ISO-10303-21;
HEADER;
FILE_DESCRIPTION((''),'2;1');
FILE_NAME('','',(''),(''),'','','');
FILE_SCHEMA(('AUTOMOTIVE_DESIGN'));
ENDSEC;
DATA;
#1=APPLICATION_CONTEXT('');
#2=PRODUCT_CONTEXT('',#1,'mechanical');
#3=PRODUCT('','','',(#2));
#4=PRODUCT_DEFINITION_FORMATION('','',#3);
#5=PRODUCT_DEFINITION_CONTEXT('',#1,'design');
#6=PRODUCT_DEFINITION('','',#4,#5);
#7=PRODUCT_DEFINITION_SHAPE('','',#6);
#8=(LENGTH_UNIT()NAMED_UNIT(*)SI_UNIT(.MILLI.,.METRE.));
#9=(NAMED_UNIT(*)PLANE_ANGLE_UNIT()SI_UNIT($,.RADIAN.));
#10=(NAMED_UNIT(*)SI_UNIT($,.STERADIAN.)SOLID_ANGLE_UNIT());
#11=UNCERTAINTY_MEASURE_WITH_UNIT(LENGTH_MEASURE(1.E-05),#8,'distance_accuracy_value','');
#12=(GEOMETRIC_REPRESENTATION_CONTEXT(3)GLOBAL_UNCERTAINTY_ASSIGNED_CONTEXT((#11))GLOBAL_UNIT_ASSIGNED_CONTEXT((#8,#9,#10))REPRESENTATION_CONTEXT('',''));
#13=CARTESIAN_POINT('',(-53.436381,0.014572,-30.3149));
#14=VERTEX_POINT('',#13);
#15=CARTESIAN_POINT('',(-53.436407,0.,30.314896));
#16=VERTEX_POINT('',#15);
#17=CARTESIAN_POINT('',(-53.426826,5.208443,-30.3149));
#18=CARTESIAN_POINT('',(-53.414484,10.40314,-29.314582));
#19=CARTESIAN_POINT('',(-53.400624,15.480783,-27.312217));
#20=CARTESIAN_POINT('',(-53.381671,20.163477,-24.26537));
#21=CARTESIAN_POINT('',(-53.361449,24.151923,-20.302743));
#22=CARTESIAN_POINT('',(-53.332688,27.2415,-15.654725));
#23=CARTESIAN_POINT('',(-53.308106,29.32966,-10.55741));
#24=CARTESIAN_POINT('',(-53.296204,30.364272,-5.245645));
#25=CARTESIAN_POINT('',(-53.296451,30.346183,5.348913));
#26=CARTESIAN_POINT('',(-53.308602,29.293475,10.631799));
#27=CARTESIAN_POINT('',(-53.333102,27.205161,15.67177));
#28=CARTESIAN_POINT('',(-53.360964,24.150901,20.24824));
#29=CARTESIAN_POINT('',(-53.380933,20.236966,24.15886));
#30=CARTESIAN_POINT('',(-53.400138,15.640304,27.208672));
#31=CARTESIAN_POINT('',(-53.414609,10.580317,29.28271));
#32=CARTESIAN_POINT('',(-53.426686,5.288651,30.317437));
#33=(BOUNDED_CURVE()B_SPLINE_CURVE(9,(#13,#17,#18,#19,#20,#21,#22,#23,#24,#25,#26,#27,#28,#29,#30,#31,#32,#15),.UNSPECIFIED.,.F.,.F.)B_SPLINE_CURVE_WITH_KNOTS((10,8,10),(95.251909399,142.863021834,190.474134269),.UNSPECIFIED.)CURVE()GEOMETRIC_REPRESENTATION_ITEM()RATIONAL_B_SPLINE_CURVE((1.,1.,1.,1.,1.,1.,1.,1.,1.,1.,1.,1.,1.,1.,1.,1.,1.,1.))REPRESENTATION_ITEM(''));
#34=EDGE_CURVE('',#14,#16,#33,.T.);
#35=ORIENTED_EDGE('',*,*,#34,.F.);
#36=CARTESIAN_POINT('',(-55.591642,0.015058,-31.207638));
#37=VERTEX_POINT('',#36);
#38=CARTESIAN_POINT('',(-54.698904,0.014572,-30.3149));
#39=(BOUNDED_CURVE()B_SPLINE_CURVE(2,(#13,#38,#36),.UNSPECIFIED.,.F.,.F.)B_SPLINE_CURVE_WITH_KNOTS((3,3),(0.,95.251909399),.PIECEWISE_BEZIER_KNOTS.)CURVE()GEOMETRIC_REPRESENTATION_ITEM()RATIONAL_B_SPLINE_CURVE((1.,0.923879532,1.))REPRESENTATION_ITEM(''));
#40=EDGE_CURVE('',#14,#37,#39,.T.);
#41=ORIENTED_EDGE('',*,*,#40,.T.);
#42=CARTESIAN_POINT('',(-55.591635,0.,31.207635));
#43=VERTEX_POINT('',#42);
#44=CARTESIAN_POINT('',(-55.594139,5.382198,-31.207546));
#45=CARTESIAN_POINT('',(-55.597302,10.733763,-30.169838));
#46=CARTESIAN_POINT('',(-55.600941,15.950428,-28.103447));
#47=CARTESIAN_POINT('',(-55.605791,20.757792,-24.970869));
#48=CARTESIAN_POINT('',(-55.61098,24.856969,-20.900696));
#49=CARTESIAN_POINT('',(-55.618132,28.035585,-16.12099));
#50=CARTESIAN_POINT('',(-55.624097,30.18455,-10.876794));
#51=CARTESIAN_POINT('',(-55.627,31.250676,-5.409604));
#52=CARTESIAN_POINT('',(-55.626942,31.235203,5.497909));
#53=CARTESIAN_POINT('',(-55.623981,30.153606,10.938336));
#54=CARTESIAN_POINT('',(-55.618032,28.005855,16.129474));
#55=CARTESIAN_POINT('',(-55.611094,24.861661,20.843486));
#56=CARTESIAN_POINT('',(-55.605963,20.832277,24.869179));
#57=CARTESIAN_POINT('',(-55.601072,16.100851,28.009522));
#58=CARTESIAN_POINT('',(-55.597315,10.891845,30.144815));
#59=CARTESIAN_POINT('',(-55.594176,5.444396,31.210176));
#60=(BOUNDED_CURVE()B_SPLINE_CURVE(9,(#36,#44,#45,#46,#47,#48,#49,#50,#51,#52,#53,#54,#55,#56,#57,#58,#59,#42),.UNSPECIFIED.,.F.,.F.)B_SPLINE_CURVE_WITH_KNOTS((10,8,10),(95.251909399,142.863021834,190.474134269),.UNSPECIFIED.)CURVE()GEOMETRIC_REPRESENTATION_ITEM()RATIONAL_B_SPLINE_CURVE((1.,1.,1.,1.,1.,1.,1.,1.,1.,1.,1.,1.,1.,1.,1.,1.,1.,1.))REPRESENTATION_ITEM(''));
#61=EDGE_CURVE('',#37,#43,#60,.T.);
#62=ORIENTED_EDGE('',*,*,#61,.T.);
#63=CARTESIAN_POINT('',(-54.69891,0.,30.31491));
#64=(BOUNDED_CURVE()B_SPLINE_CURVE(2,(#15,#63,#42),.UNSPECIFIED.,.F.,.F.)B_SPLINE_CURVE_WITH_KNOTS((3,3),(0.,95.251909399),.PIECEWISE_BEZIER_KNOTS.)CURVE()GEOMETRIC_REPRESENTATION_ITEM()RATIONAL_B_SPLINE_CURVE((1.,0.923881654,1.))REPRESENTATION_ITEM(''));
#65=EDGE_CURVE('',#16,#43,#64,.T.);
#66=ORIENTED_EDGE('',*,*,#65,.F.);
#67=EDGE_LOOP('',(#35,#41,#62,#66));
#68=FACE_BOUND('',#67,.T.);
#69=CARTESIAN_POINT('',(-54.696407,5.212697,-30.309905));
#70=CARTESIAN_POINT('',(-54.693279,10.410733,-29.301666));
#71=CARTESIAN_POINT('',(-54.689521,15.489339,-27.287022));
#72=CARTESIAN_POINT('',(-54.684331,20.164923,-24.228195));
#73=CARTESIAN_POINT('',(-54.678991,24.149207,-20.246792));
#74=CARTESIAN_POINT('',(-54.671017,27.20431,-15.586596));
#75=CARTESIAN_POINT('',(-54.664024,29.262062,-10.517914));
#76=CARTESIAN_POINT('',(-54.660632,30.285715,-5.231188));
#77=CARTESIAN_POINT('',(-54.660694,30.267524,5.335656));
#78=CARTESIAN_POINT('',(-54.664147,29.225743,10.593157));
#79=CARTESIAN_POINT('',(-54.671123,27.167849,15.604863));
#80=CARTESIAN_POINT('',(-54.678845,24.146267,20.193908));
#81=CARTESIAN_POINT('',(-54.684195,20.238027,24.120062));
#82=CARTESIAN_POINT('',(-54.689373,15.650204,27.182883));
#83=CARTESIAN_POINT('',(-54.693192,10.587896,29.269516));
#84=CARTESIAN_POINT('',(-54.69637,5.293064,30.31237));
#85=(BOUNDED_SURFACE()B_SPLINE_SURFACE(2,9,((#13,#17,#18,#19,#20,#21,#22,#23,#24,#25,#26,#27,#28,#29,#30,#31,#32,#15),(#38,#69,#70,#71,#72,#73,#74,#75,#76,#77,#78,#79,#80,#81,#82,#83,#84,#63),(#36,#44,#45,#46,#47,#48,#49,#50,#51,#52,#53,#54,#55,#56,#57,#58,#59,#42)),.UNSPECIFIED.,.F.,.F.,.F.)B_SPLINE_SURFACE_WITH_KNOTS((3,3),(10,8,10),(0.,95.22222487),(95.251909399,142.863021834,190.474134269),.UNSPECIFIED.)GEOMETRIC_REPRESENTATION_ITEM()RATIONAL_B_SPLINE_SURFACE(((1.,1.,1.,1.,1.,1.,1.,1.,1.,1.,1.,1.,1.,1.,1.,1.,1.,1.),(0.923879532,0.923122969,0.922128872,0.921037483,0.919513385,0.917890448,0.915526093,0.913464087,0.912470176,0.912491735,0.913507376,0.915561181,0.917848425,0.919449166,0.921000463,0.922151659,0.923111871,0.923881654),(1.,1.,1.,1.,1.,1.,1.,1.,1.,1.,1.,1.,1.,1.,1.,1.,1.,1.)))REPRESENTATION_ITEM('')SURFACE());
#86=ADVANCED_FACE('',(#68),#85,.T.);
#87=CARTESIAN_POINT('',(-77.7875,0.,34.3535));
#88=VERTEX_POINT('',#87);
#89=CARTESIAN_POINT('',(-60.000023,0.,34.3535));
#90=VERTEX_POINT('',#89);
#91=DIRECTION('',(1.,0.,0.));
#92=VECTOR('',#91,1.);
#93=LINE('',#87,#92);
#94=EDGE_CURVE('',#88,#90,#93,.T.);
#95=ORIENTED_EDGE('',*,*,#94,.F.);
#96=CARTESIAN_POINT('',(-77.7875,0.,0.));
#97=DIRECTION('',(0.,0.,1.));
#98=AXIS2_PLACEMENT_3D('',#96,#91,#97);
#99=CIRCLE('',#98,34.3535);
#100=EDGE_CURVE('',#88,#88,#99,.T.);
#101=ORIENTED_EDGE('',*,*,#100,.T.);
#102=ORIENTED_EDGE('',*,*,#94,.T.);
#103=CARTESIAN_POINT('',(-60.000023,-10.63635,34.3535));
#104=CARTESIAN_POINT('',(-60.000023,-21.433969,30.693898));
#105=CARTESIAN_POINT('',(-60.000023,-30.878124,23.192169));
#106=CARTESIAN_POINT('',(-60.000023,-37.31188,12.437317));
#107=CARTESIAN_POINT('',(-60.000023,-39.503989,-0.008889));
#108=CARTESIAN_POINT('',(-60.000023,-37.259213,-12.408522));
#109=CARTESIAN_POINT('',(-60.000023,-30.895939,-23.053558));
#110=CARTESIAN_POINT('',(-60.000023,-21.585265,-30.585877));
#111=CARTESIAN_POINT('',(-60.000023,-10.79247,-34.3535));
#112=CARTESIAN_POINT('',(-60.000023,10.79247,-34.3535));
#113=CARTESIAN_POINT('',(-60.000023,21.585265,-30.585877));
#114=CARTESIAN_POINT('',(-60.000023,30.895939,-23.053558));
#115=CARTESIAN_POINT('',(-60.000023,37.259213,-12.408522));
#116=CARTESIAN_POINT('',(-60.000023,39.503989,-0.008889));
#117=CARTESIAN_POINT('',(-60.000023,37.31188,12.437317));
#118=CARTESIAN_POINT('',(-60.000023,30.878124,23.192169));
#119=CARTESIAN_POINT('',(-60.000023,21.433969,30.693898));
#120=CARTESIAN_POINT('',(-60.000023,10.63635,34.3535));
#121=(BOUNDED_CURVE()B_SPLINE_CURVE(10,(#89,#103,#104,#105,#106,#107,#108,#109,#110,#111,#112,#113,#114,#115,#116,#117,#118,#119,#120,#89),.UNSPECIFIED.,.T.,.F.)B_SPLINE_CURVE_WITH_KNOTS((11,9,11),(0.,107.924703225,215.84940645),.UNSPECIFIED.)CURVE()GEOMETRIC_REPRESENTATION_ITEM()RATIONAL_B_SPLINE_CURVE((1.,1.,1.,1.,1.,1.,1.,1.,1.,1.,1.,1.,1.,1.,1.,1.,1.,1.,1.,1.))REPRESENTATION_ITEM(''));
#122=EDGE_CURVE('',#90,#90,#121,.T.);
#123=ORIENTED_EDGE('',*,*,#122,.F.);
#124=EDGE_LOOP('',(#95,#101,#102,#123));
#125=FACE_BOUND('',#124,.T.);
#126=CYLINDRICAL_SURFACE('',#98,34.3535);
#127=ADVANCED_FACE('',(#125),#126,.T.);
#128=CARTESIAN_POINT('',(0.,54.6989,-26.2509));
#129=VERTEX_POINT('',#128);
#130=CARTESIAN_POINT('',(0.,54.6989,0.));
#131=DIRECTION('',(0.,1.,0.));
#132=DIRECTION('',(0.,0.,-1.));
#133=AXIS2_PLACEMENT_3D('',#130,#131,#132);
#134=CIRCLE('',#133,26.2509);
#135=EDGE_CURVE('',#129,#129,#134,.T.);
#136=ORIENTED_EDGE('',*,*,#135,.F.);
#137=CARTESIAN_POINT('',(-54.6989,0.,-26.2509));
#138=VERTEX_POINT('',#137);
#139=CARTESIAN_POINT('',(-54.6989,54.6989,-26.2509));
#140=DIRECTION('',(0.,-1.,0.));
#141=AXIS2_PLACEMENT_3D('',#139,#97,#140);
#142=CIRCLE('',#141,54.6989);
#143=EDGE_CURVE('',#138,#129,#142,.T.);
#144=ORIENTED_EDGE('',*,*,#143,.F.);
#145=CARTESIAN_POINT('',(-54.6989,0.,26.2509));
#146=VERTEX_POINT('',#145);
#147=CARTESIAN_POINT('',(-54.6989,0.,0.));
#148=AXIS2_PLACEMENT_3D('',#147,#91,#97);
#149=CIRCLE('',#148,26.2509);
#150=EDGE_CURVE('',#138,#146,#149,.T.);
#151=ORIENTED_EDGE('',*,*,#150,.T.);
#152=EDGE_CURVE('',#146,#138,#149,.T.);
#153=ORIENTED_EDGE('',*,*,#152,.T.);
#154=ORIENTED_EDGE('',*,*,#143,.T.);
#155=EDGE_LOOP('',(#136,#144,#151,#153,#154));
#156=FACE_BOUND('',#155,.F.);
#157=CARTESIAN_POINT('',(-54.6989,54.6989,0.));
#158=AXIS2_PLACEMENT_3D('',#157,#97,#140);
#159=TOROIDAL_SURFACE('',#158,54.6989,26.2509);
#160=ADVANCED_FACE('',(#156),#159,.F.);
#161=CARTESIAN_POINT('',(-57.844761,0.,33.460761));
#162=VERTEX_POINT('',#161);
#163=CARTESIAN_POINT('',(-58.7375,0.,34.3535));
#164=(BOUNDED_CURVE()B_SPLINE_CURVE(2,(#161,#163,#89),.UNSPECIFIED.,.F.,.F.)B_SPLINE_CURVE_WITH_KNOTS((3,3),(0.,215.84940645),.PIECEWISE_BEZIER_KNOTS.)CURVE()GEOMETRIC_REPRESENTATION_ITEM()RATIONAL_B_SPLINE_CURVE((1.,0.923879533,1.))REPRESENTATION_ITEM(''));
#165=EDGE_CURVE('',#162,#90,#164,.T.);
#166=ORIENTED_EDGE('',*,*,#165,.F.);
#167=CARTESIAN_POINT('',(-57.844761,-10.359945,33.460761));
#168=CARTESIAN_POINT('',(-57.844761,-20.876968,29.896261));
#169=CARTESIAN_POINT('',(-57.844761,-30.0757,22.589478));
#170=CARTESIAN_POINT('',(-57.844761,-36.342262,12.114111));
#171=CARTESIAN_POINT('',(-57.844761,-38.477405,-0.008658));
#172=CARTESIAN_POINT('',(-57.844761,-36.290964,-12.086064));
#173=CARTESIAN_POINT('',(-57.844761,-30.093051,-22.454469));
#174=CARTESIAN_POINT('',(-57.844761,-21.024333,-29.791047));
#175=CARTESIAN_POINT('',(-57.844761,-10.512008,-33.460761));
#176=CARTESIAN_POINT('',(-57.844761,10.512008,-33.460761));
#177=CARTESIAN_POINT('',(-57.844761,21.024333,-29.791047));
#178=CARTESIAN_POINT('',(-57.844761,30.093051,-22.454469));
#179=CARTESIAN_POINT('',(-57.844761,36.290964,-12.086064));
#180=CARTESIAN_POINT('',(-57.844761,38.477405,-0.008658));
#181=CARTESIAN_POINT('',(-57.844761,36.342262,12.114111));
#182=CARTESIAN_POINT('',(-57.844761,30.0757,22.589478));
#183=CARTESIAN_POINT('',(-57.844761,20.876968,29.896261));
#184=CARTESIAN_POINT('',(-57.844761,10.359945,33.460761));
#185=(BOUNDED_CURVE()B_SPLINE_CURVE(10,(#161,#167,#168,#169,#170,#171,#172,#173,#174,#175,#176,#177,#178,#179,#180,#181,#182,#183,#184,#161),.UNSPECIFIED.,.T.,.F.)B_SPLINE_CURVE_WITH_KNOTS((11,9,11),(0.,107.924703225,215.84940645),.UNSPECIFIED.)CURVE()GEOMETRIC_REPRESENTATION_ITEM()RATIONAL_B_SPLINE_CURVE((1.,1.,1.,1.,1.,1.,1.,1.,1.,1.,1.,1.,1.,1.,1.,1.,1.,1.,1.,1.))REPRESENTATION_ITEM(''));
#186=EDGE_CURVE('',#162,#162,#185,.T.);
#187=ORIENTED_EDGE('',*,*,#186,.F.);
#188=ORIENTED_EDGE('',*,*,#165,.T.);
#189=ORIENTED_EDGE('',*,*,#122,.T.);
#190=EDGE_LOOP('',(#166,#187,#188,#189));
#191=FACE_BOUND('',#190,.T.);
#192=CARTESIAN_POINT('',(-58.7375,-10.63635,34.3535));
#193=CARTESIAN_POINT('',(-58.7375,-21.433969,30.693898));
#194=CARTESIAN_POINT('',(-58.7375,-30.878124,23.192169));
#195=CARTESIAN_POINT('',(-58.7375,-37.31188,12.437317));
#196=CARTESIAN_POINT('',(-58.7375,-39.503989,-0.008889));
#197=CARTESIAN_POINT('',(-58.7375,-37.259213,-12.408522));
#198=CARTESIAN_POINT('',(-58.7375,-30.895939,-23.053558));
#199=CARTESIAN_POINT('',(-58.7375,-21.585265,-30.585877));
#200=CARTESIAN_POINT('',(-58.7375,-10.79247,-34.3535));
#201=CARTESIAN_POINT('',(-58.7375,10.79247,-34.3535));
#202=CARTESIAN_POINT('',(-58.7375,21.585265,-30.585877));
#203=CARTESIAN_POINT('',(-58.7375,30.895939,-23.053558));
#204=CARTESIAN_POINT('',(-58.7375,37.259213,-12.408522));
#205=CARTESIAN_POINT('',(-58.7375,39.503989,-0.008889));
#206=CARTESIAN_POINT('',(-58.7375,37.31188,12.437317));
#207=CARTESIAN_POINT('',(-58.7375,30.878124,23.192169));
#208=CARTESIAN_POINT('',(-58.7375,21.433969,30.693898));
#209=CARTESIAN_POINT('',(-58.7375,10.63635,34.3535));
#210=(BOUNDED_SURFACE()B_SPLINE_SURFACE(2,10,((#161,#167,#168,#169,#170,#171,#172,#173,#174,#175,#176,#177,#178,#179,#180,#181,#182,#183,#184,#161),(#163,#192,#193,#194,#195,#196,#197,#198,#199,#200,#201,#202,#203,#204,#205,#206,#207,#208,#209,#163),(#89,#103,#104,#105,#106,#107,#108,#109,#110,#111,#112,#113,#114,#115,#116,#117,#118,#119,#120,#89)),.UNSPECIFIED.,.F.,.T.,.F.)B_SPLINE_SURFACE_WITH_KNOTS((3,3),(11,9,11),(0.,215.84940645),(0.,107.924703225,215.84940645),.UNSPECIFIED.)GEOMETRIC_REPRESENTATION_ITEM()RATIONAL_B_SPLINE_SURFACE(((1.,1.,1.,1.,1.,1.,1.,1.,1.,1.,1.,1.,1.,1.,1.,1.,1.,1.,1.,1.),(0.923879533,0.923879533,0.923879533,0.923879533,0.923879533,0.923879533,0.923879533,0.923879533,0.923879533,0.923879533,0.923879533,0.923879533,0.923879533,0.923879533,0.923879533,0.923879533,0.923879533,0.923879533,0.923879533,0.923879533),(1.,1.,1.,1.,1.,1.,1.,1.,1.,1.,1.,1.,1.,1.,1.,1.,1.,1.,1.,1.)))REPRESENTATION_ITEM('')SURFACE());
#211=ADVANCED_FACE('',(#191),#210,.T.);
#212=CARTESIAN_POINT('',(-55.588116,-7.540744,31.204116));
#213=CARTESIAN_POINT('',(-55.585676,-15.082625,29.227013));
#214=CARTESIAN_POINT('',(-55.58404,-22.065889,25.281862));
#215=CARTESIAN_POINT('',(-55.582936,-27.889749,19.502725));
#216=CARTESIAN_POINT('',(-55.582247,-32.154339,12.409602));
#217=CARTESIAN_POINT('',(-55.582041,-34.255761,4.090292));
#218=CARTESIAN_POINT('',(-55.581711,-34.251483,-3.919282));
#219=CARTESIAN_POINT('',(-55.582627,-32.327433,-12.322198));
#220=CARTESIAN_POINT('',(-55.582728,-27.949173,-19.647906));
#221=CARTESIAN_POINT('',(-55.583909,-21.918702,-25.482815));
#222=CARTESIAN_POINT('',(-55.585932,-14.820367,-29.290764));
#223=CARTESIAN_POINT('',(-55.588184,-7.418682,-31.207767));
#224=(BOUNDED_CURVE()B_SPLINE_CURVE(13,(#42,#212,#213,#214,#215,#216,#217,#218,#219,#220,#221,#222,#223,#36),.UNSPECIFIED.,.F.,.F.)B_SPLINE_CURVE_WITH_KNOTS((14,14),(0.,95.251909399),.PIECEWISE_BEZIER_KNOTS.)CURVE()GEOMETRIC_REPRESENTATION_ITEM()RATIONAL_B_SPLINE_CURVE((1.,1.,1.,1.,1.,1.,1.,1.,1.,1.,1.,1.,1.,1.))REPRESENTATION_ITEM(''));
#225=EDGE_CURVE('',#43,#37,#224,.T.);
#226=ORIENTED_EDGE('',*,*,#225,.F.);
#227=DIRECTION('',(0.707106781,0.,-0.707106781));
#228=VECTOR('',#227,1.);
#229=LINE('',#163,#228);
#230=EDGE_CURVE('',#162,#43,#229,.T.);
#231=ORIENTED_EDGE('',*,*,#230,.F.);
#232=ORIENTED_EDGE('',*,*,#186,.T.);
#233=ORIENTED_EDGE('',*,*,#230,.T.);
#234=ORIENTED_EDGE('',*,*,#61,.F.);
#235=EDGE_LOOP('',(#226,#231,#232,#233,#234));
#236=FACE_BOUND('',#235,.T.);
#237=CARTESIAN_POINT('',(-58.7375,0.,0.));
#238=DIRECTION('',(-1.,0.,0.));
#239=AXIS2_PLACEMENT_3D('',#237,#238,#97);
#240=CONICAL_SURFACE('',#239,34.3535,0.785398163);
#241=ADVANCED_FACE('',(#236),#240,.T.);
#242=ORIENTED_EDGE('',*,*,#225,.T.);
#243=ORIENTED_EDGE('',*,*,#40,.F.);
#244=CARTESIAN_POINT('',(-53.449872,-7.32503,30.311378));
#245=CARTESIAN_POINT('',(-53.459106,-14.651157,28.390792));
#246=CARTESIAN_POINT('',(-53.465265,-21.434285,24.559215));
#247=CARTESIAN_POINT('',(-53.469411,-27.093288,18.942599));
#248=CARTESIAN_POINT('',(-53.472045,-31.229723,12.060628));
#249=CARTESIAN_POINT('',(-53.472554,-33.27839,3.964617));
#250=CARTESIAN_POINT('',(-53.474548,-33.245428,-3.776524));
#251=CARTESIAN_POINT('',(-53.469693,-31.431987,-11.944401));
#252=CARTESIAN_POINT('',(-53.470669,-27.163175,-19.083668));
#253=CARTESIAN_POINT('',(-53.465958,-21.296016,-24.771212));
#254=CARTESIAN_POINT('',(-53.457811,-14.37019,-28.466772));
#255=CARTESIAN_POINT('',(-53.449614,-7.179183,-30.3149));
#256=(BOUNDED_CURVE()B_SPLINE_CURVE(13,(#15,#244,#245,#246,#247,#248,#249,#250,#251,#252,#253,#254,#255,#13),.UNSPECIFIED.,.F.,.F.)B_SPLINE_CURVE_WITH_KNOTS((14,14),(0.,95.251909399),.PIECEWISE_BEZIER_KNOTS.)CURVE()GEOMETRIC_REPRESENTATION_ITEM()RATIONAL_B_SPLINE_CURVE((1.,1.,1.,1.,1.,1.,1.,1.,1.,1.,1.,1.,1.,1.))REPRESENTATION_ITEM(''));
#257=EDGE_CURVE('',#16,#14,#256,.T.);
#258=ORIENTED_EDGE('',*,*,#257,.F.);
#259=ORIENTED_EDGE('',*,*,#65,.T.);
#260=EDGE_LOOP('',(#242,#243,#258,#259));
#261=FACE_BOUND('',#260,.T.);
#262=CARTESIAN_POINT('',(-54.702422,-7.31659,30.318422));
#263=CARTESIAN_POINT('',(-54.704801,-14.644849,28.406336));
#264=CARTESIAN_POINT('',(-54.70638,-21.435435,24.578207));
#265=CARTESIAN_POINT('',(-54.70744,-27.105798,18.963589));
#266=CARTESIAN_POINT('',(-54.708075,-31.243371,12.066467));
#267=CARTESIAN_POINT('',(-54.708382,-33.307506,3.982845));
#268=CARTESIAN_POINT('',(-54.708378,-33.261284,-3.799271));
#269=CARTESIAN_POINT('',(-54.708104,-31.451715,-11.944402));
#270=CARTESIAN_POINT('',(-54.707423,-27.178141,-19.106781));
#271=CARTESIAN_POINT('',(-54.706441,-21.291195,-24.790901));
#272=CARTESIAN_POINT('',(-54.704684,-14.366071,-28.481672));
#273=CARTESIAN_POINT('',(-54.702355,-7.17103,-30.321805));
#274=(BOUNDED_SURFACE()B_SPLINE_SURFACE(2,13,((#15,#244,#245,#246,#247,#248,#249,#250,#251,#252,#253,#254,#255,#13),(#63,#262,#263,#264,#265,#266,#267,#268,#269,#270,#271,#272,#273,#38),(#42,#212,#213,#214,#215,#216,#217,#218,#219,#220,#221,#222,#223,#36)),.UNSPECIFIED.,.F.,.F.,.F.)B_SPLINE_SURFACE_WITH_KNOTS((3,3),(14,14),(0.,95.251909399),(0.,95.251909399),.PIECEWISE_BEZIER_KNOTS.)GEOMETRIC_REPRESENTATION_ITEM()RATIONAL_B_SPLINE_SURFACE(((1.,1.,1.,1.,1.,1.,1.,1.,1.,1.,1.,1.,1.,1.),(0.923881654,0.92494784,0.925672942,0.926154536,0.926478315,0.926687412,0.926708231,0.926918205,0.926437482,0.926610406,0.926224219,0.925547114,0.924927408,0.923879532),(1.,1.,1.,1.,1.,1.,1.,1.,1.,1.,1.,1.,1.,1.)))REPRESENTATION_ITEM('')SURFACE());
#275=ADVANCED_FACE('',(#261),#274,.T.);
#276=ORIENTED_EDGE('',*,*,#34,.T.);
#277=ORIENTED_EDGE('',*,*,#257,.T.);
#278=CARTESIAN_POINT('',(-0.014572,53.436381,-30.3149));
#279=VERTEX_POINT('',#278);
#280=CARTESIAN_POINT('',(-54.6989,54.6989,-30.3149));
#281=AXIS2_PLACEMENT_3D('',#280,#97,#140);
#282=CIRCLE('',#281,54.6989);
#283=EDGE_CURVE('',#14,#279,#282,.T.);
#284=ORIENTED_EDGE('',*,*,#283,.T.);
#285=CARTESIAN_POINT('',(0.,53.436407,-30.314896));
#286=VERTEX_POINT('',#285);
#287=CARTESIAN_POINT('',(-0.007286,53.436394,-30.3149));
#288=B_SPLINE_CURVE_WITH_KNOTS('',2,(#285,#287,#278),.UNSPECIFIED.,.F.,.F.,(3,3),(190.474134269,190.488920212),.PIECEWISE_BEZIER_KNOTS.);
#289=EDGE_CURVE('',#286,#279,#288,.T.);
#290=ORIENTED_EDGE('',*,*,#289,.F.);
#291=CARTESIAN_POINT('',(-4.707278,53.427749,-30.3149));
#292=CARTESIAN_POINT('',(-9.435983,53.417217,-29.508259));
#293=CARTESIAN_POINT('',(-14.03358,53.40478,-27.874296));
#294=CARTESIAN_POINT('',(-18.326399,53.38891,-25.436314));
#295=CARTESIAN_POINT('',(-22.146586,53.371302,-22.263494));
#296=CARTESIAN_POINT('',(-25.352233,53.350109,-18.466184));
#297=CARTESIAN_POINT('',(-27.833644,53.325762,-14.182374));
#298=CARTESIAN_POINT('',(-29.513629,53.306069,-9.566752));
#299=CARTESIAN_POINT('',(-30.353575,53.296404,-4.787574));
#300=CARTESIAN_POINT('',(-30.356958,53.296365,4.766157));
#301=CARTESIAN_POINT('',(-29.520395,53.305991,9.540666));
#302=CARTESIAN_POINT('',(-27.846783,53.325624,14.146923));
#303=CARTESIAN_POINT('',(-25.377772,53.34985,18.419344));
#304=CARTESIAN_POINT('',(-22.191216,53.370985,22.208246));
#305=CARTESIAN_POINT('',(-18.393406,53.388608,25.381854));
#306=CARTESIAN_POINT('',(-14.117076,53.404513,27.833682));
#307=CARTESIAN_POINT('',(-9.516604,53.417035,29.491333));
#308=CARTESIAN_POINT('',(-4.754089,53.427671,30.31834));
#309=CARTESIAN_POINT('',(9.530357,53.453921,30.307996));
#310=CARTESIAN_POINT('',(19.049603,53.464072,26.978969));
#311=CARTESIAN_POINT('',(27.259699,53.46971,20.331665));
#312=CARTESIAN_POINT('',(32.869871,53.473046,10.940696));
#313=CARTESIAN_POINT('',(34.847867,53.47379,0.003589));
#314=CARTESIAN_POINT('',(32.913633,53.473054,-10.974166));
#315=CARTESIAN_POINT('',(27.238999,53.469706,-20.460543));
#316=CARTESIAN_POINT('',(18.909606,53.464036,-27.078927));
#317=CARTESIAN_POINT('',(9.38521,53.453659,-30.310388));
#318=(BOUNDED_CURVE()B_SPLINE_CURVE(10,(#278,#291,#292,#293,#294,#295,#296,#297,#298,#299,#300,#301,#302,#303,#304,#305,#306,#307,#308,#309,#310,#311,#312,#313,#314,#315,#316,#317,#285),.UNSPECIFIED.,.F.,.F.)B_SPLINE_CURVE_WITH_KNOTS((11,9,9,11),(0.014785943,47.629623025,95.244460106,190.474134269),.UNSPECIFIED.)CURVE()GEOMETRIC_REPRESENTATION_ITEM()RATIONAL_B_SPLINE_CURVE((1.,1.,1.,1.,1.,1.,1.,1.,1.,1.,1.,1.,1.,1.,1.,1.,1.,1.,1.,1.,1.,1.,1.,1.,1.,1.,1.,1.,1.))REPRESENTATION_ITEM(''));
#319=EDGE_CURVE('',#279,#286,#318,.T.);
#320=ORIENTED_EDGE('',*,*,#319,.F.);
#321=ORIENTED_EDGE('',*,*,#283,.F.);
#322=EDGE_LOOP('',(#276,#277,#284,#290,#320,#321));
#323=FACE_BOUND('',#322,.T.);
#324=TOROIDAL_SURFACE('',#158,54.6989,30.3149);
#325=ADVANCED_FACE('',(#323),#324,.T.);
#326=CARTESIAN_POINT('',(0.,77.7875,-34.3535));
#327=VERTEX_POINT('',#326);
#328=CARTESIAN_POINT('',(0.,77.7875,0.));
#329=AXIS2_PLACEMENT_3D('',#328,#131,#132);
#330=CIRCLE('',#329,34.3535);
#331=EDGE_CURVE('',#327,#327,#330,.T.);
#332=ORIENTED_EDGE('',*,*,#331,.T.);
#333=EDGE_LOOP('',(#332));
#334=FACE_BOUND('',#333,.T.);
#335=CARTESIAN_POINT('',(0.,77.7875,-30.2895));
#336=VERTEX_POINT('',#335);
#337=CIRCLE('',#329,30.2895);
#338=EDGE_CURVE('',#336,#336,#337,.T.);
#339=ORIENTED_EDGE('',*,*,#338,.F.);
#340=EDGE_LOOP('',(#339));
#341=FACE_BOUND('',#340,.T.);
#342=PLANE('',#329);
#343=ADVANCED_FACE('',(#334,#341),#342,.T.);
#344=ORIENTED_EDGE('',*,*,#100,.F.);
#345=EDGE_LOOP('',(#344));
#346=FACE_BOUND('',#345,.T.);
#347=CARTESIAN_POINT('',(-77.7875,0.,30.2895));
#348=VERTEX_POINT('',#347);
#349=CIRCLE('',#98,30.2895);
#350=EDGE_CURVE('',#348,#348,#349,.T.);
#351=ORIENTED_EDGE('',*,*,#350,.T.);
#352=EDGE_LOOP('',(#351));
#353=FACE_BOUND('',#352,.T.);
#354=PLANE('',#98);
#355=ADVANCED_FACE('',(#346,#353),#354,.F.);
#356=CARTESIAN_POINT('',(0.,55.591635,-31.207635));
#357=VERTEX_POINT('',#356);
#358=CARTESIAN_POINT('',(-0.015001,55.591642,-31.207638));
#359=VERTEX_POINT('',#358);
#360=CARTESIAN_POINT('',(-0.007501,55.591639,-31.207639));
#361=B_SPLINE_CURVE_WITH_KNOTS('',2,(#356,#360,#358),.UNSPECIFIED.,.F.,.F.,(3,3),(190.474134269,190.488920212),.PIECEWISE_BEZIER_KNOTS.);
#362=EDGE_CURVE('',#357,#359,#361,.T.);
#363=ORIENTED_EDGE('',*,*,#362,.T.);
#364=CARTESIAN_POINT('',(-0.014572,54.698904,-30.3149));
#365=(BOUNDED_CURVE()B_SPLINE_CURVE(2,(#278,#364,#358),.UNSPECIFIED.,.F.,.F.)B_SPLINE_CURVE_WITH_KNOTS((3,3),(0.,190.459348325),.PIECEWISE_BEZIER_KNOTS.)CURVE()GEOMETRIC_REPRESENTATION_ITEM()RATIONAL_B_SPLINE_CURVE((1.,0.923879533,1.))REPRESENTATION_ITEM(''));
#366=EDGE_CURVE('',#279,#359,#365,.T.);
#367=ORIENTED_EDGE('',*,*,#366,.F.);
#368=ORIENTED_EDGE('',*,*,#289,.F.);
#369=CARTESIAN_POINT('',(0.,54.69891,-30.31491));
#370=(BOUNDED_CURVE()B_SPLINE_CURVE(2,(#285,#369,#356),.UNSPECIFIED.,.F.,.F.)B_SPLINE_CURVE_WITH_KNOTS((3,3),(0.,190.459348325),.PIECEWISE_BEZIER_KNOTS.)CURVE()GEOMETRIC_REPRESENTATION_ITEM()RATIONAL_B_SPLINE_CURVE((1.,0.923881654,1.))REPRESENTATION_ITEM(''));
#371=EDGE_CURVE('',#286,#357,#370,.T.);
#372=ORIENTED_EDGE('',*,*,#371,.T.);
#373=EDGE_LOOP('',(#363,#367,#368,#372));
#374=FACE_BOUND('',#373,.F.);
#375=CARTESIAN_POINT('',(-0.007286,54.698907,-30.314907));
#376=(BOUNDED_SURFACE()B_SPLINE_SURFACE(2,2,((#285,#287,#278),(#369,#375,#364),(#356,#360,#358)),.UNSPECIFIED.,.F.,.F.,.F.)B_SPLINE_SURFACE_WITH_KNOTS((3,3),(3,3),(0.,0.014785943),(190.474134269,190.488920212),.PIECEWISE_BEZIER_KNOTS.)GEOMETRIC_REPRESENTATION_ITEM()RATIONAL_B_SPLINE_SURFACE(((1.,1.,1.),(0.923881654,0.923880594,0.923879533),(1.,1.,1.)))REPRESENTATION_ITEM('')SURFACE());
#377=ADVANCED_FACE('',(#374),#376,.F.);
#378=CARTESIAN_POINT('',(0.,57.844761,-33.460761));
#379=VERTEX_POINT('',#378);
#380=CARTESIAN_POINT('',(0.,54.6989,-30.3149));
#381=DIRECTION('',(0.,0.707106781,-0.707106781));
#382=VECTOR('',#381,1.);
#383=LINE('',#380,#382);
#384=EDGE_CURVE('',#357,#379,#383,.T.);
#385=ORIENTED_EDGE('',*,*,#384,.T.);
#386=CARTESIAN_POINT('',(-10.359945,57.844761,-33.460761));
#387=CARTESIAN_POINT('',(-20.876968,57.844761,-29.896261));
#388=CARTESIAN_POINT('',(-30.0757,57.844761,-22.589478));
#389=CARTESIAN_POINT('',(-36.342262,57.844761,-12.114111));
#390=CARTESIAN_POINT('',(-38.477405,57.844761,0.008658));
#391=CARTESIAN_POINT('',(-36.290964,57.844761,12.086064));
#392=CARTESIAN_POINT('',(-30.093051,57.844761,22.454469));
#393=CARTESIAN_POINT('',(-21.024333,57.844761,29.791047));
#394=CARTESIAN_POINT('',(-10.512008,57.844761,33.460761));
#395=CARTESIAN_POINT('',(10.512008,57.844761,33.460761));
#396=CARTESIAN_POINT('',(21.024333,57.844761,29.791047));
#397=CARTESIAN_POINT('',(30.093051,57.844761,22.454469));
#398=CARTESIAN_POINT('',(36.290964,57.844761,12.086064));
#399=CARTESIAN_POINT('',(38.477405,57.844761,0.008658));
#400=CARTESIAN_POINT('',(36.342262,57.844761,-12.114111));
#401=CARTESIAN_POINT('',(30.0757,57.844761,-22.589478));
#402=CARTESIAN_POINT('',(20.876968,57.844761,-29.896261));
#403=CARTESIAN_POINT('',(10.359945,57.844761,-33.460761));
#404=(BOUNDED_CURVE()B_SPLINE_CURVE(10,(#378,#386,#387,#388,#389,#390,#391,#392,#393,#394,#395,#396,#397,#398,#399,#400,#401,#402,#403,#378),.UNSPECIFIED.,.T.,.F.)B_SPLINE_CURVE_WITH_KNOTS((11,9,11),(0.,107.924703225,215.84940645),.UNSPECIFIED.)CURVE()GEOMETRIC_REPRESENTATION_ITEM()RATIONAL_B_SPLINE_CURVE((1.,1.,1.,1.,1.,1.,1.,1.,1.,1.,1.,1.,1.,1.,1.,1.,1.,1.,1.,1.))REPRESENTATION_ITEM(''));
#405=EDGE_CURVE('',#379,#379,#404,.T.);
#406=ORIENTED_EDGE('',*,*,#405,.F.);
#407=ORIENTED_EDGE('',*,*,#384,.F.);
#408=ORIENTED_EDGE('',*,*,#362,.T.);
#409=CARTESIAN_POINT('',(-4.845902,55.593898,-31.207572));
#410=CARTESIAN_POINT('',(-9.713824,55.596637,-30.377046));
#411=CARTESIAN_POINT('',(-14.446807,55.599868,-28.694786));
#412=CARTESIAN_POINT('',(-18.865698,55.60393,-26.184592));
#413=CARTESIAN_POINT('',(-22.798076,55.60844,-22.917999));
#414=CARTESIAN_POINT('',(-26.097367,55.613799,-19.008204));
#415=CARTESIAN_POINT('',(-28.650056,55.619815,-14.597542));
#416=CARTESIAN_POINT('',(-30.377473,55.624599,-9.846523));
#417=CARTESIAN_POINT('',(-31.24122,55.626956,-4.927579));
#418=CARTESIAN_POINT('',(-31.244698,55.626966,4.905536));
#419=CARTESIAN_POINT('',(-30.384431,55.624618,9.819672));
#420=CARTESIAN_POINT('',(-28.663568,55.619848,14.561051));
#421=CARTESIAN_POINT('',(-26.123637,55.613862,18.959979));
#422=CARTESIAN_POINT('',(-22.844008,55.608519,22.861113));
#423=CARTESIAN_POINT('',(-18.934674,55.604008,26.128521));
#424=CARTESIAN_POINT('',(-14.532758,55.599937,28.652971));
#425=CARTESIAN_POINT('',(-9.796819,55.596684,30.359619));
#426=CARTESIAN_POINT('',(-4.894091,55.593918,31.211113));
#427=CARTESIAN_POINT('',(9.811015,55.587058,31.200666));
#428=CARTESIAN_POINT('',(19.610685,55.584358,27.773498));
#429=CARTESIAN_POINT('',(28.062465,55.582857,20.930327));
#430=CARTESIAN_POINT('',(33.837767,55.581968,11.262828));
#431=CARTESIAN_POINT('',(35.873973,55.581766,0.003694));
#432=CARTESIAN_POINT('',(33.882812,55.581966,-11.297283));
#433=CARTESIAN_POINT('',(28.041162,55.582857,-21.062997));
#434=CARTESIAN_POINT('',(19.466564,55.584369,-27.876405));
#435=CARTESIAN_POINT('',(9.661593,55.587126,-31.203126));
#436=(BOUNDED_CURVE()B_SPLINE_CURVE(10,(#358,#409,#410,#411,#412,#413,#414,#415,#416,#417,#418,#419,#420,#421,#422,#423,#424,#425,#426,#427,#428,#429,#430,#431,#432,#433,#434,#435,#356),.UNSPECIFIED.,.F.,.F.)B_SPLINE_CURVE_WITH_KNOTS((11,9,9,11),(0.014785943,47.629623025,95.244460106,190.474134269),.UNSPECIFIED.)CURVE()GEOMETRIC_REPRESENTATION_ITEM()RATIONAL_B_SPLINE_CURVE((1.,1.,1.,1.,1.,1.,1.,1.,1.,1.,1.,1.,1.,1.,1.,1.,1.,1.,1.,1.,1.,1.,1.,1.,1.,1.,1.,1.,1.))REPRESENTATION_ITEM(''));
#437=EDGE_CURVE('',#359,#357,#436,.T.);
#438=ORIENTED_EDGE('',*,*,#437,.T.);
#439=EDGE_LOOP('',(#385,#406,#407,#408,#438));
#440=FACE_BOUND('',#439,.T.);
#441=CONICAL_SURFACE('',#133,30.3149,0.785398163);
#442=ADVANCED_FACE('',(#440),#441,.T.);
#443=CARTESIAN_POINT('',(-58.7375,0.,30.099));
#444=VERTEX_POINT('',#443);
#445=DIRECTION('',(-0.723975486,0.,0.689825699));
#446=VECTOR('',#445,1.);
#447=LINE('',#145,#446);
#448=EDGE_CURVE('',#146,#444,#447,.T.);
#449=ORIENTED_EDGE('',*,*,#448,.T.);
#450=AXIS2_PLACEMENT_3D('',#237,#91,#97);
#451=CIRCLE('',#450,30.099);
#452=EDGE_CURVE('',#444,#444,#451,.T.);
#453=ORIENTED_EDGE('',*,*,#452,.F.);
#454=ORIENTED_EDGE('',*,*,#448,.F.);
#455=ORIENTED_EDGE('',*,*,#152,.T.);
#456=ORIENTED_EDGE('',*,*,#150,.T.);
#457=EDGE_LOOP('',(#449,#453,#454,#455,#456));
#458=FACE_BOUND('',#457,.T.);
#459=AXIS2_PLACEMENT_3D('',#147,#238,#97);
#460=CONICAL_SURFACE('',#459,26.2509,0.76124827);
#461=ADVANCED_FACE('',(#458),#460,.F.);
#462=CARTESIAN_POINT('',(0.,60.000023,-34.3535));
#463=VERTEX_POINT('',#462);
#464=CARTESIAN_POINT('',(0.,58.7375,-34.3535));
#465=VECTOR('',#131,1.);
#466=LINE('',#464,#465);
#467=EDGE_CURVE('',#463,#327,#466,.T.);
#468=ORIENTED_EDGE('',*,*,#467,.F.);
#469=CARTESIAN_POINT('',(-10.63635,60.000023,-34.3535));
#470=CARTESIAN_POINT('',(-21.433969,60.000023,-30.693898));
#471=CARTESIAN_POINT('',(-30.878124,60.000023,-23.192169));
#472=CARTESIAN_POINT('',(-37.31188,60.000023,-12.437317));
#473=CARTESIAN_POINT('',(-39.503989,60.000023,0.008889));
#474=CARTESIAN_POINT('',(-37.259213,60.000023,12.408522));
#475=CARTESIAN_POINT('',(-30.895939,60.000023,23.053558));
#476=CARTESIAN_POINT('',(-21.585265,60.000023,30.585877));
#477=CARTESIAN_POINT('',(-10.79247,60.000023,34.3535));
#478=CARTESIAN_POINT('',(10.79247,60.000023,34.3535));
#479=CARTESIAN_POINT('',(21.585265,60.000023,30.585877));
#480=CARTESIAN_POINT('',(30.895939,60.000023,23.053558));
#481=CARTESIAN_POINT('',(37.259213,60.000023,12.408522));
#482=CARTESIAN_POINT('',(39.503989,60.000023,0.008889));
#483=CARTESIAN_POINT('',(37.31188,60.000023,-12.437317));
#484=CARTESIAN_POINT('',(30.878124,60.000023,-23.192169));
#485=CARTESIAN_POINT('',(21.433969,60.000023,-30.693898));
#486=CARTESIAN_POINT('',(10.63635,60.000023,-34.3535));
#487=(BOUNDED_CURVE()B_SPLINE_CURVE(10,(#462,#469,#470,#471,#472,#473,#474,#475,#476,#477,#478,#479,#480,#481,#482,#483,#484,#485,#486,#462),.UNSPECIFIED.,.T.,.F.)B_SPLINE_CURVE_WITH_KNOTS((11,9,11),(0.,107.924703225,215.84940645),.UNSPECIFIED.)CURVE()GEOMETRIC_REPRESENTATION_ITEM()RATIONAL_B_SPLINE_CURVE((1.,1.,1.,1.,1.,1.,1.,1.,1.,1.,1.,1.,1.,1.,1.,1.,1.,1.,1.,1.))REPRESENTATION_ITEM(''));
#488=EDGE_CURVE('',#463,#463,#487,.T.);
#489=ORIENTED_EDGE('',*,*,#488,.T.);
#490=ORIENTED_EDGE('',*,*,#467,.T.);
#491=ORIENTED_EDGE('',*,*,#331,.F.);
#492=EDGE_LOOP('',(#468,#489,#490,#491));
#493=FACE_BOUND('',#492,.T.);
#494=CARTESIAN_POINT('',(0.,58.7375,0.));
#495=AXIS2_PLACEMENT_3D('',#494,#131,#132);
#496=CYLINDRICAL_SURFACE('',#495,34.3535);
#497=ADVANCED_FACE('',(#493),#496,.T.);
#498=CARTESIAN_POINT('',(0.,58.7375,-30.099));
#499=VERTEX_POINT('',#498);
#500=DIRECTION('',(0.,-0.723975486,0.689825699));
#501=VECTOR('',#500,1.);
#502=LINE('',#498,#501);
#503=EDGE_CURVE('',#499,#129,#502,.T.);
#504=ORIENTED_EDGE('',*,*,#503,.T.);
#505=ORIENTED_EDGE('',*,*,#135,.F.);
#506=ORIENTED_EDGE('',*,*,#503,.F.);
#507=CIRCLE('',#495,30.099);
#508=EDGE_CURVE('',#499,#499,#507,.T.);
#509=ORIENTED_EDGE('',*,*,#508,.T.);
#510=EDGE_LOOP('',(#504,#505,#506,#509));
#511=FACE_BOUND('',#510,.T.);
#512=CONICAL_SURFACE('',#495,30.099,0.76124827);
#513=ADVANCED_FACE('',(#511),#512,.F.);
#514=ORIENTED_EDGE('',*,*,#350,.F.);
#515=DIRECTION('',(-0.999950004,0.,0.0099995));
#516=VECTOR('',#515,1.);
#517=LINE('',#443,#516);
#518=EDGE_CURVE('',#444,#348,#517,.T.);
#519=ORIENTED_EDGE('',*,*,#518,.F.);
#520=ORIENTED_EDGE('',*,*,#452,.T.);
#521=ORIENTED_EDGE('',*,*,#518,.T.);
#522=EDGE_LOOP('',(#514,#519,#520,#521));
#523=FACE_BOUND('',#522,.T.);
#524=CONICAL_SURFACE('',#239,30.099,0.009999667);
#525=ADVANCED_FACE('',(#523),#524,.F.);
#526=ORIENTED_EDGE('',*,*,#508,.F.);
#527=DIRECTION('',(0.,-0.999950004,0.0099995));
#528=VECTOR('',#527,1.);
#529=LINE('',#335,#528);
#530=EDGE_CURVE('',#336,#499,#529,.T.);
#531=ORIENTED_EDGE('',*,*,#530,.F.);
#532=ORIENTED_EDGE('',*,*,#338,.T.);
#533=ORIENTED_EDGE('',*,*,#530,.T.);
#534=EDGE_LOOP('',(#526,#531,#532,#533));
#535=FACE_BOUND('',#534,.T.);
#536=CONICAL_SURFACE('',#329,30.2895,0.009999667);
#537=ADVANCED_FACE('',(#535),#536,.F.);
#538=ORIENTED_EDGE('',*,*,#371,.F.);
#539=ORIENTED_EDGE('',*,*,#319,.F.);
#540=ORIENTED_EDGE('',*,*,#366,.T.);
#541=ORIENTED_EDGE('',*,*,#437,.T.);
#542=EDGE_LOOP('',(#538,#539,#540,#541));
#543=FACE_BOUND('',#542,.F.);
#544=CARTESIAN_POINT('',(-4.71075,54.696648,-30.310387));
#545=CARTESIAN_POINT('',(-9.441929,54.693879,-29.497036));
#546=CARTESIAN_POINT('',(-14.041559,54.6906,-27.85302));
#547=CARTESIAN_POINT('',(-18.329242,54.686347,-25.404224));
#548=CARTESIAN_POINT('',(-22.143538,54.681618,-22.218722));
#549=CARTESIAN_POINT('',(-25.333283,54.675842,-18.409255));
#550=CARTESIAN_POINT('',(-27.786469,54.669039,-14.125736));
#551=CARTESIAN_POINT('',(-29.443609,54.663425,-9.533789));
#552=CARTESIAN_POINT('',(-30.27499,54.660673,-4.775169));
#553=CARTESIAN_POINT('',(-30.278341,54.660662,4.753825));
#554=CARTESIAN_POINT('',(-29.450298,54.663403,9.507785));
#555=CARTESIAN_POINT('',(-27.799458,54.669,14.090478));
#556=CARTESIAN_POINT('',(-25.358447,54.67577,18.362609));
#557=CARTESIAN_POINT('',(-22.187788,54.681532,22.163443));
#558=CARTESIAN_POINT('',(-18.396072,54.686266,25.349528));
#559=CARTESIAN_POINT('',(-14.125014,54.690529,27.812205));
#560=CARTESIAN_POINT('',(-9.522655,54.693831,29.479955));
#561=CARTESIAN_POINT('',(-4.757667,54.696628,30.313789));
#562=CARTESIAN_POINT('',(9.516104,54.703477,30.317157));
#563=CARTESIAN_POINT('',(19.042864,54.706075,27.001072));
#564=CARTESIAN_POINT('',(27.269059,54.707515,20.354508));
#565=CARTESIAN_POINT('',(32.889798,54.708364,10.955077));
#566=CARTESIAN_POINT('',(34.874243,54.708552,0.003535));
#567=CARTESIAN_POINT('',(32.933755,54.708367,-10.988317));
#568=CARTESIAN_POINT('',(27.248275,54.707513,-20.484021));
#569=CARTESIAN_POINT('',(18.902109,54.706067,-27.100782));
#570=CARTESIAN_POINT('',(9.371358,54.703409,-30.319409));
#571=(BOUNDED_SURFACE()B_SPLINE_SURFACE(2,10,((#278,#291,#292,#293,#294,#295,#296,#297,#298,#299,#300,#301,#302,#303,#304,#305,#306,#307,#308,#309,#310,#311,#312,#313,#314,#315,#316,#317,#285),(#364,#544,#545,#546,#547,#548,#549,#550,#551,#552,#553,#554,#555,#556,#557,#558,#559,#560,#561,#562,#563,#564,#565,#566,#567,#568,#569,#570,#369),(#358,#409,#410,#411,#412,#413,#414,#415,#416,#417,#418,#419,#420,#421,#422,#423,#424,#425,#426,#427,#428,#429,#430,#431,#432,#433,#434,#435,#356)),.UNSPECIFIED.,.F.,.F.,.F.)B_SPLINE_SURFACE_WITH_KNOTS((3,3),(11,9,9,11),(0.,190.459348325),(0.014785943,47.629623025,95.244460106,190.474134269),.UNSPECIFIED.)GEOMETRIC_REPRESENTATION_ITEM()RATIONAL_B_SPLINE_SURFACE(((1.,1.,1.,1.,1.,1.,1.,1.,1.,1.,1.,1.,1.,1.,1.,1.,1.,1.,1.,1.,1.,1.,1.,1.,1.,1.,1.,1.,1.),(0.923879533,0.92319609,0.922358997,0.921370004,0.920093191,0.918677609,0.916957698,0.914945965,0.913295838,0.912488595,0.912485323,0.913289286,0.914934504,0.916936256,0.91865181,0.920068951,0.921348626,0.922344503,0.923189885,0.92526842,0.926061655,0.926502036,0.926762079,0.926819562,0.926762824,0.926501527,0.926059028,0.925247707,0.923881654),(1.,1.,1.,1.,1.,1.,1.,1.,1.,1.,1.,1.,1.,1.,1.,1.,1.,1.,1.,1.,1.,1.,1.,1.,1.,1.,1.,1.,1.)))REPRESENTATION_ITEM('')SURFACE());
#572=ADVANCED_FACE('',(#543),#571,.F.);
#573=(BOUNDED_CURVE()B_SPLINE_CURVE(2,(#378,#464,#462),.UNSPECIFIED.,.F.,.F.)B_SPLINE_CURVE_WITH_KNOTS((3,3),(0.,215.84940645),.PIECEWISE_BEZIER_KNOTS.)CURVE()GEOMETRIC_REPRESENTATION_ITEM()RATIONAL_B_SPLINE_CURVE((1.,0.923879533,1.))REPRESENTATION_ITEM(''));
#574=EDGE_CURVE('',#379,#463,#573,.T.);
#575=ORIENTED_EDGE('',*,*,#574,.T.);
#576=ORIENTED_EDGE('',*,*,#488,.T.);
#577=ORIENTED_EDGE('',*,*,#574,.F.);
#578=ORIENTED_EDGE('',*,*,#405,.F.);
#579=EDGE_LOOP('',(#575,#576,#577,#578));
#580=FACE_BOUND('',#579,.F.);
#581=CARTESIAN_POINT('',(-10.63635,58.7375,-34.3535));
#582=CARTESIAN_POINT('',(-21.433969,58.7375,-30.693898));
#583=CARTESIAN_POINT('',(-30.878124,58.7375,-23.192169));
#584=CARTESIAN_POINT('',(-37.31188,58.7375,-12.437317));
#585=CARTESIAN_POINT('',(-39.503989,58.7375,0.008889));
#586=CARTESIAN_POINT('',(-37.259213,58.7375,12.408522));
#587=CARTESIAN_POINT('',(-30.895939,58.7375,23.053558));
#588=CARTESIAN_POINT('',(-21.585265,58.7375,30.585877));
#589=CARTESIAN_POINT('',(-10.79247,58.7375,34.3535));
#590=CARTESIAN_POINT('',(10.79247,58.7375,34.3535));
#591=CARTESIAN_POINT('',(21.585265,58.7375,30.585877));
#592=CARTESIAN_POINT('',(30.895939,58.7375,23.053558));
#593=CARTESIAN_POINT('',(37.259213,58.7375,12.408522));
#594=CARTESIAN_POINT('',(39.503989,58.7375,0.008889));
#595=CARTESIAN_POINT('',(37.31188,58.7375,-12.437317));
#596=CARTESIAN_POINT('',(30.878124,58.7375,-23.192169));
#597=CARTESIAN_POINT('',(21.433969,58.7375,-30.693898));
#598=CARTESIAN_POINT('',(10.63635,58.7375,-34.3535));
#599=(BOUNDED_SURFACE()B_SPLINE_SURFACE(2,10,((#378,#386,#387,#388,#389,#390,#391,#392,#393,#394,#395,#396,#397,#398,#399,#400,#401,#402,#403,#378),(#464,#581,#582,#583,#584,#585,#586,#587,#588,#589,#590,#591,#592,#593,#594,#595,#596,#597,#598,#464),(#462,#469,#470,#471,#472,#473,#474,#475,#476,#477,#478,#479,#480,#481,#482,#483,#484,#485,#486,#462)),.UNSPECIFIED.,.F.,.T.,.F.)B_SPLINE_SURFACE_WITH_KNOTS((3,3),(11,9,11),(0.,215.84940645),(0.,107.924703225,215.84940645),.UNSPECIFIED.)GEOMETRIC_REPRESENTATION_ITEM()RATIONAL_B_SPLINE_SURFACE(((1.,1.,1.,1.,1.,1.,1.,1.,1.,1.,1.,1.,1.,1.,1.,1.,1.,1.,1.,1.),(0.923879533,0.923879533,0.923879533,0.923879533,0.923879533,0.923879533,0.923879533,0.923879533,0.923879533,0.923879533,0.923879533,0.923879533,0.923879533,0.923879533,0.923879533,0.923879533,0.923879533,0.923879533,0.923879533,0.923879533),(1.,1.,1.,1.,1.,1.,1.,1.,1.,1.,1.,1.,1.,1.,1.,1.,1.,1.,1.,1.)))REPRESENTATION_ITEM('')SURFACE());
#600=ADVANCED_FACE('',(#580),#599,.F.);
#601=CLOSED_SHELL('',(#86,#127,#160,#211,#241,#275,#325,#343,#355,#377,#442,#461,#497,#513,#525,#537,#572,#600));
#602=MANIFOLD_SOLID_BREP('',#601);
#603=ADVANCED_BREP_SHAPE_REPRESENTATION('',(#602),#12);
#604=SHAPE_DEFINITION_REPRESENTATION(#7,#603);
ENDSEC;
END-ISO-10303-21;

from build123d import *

# Parameters (mm, degrees)
SKETCH3_R   = 30.3149
SKETCH3_R_2 = 26.2509
FILLET1_R   = 3.048


with BuildPart() as part:
    # Sketch1 → Revolve1 (revolve)
    with BuildSketch(Plane.XY, mode=Mode.PRIVATE) as revolve1_sk:
        Polygon((-58.7375, -34.3535), (-54.6989, -30.3149), (-54.6989, -26.2509), (-58.7375, -30.099), (-77.7875, -30.2895), (-77.7875, -34.3535), align=None)
    revolve(revolve1_sk.sketch.rotate(Axis((-77.7875, 0, 0), (1, 0, 0)), 270), axis=Axis((-77.7875, 0, 0), (1, 0, 0)))



with BuildPart() as body_2:
    # Sketch2 → Revolve2 (revolve)
    with BuildSketch(Plane.XY, mode=Mode.PRIVATE) as revolve2_sk:
        Polygon((30.2895, 77.7875), (30.099, 58.7375), (26.2509, 54.6989), (30.3149, 54.6989), (34.3535, 58.7375), (34.3535, 77.7875), align=None)
    revolve(revolve2_sk.sketch.rotate(Axis((0, 0, 0), (0, 1, 0)), 90), axis=Axis((0, 0, 0), (0, 1, 0)))


with BuildPart() as part_1:
    add(part.part)

    add(body_2.part)  # Sweep1 merges body 2
    # Sweep1: sweep along a path in Sketch4
    with BuildLine(Plane.XY) as sweep1_path:
        ThreePointArc((-54.6989, 0), (-16.020936887, 16.020936887), (0, 54.6989))
    # Sketch3 → Sweep1 (sweep)
    with BuildSketch(Plane(origin=(-54.6989, 0, 0), x_dir=(0, 0, -1), z_dir=(1, 0, 0))):
        Circle(SKETCH3_R)
        Circle(SKETCH3_R_2, mode=Mode.SUBTRACT)
    sweep(path=sweep1_path.line)

    # Fillet1
    fillet1_edges = [part_1.edges().sort_by_distance(p)[0] for p in [
        (-54.6989, -30.3149, 0),
        (0, 54.6989, 30.3149),
        (0, 58.7375, 34.3535),
        (-58.7375, 0, -34.3535),
    ]]
    fillet(fillet1_edges, radius=FILLET1_R)


solid = part_1.part
